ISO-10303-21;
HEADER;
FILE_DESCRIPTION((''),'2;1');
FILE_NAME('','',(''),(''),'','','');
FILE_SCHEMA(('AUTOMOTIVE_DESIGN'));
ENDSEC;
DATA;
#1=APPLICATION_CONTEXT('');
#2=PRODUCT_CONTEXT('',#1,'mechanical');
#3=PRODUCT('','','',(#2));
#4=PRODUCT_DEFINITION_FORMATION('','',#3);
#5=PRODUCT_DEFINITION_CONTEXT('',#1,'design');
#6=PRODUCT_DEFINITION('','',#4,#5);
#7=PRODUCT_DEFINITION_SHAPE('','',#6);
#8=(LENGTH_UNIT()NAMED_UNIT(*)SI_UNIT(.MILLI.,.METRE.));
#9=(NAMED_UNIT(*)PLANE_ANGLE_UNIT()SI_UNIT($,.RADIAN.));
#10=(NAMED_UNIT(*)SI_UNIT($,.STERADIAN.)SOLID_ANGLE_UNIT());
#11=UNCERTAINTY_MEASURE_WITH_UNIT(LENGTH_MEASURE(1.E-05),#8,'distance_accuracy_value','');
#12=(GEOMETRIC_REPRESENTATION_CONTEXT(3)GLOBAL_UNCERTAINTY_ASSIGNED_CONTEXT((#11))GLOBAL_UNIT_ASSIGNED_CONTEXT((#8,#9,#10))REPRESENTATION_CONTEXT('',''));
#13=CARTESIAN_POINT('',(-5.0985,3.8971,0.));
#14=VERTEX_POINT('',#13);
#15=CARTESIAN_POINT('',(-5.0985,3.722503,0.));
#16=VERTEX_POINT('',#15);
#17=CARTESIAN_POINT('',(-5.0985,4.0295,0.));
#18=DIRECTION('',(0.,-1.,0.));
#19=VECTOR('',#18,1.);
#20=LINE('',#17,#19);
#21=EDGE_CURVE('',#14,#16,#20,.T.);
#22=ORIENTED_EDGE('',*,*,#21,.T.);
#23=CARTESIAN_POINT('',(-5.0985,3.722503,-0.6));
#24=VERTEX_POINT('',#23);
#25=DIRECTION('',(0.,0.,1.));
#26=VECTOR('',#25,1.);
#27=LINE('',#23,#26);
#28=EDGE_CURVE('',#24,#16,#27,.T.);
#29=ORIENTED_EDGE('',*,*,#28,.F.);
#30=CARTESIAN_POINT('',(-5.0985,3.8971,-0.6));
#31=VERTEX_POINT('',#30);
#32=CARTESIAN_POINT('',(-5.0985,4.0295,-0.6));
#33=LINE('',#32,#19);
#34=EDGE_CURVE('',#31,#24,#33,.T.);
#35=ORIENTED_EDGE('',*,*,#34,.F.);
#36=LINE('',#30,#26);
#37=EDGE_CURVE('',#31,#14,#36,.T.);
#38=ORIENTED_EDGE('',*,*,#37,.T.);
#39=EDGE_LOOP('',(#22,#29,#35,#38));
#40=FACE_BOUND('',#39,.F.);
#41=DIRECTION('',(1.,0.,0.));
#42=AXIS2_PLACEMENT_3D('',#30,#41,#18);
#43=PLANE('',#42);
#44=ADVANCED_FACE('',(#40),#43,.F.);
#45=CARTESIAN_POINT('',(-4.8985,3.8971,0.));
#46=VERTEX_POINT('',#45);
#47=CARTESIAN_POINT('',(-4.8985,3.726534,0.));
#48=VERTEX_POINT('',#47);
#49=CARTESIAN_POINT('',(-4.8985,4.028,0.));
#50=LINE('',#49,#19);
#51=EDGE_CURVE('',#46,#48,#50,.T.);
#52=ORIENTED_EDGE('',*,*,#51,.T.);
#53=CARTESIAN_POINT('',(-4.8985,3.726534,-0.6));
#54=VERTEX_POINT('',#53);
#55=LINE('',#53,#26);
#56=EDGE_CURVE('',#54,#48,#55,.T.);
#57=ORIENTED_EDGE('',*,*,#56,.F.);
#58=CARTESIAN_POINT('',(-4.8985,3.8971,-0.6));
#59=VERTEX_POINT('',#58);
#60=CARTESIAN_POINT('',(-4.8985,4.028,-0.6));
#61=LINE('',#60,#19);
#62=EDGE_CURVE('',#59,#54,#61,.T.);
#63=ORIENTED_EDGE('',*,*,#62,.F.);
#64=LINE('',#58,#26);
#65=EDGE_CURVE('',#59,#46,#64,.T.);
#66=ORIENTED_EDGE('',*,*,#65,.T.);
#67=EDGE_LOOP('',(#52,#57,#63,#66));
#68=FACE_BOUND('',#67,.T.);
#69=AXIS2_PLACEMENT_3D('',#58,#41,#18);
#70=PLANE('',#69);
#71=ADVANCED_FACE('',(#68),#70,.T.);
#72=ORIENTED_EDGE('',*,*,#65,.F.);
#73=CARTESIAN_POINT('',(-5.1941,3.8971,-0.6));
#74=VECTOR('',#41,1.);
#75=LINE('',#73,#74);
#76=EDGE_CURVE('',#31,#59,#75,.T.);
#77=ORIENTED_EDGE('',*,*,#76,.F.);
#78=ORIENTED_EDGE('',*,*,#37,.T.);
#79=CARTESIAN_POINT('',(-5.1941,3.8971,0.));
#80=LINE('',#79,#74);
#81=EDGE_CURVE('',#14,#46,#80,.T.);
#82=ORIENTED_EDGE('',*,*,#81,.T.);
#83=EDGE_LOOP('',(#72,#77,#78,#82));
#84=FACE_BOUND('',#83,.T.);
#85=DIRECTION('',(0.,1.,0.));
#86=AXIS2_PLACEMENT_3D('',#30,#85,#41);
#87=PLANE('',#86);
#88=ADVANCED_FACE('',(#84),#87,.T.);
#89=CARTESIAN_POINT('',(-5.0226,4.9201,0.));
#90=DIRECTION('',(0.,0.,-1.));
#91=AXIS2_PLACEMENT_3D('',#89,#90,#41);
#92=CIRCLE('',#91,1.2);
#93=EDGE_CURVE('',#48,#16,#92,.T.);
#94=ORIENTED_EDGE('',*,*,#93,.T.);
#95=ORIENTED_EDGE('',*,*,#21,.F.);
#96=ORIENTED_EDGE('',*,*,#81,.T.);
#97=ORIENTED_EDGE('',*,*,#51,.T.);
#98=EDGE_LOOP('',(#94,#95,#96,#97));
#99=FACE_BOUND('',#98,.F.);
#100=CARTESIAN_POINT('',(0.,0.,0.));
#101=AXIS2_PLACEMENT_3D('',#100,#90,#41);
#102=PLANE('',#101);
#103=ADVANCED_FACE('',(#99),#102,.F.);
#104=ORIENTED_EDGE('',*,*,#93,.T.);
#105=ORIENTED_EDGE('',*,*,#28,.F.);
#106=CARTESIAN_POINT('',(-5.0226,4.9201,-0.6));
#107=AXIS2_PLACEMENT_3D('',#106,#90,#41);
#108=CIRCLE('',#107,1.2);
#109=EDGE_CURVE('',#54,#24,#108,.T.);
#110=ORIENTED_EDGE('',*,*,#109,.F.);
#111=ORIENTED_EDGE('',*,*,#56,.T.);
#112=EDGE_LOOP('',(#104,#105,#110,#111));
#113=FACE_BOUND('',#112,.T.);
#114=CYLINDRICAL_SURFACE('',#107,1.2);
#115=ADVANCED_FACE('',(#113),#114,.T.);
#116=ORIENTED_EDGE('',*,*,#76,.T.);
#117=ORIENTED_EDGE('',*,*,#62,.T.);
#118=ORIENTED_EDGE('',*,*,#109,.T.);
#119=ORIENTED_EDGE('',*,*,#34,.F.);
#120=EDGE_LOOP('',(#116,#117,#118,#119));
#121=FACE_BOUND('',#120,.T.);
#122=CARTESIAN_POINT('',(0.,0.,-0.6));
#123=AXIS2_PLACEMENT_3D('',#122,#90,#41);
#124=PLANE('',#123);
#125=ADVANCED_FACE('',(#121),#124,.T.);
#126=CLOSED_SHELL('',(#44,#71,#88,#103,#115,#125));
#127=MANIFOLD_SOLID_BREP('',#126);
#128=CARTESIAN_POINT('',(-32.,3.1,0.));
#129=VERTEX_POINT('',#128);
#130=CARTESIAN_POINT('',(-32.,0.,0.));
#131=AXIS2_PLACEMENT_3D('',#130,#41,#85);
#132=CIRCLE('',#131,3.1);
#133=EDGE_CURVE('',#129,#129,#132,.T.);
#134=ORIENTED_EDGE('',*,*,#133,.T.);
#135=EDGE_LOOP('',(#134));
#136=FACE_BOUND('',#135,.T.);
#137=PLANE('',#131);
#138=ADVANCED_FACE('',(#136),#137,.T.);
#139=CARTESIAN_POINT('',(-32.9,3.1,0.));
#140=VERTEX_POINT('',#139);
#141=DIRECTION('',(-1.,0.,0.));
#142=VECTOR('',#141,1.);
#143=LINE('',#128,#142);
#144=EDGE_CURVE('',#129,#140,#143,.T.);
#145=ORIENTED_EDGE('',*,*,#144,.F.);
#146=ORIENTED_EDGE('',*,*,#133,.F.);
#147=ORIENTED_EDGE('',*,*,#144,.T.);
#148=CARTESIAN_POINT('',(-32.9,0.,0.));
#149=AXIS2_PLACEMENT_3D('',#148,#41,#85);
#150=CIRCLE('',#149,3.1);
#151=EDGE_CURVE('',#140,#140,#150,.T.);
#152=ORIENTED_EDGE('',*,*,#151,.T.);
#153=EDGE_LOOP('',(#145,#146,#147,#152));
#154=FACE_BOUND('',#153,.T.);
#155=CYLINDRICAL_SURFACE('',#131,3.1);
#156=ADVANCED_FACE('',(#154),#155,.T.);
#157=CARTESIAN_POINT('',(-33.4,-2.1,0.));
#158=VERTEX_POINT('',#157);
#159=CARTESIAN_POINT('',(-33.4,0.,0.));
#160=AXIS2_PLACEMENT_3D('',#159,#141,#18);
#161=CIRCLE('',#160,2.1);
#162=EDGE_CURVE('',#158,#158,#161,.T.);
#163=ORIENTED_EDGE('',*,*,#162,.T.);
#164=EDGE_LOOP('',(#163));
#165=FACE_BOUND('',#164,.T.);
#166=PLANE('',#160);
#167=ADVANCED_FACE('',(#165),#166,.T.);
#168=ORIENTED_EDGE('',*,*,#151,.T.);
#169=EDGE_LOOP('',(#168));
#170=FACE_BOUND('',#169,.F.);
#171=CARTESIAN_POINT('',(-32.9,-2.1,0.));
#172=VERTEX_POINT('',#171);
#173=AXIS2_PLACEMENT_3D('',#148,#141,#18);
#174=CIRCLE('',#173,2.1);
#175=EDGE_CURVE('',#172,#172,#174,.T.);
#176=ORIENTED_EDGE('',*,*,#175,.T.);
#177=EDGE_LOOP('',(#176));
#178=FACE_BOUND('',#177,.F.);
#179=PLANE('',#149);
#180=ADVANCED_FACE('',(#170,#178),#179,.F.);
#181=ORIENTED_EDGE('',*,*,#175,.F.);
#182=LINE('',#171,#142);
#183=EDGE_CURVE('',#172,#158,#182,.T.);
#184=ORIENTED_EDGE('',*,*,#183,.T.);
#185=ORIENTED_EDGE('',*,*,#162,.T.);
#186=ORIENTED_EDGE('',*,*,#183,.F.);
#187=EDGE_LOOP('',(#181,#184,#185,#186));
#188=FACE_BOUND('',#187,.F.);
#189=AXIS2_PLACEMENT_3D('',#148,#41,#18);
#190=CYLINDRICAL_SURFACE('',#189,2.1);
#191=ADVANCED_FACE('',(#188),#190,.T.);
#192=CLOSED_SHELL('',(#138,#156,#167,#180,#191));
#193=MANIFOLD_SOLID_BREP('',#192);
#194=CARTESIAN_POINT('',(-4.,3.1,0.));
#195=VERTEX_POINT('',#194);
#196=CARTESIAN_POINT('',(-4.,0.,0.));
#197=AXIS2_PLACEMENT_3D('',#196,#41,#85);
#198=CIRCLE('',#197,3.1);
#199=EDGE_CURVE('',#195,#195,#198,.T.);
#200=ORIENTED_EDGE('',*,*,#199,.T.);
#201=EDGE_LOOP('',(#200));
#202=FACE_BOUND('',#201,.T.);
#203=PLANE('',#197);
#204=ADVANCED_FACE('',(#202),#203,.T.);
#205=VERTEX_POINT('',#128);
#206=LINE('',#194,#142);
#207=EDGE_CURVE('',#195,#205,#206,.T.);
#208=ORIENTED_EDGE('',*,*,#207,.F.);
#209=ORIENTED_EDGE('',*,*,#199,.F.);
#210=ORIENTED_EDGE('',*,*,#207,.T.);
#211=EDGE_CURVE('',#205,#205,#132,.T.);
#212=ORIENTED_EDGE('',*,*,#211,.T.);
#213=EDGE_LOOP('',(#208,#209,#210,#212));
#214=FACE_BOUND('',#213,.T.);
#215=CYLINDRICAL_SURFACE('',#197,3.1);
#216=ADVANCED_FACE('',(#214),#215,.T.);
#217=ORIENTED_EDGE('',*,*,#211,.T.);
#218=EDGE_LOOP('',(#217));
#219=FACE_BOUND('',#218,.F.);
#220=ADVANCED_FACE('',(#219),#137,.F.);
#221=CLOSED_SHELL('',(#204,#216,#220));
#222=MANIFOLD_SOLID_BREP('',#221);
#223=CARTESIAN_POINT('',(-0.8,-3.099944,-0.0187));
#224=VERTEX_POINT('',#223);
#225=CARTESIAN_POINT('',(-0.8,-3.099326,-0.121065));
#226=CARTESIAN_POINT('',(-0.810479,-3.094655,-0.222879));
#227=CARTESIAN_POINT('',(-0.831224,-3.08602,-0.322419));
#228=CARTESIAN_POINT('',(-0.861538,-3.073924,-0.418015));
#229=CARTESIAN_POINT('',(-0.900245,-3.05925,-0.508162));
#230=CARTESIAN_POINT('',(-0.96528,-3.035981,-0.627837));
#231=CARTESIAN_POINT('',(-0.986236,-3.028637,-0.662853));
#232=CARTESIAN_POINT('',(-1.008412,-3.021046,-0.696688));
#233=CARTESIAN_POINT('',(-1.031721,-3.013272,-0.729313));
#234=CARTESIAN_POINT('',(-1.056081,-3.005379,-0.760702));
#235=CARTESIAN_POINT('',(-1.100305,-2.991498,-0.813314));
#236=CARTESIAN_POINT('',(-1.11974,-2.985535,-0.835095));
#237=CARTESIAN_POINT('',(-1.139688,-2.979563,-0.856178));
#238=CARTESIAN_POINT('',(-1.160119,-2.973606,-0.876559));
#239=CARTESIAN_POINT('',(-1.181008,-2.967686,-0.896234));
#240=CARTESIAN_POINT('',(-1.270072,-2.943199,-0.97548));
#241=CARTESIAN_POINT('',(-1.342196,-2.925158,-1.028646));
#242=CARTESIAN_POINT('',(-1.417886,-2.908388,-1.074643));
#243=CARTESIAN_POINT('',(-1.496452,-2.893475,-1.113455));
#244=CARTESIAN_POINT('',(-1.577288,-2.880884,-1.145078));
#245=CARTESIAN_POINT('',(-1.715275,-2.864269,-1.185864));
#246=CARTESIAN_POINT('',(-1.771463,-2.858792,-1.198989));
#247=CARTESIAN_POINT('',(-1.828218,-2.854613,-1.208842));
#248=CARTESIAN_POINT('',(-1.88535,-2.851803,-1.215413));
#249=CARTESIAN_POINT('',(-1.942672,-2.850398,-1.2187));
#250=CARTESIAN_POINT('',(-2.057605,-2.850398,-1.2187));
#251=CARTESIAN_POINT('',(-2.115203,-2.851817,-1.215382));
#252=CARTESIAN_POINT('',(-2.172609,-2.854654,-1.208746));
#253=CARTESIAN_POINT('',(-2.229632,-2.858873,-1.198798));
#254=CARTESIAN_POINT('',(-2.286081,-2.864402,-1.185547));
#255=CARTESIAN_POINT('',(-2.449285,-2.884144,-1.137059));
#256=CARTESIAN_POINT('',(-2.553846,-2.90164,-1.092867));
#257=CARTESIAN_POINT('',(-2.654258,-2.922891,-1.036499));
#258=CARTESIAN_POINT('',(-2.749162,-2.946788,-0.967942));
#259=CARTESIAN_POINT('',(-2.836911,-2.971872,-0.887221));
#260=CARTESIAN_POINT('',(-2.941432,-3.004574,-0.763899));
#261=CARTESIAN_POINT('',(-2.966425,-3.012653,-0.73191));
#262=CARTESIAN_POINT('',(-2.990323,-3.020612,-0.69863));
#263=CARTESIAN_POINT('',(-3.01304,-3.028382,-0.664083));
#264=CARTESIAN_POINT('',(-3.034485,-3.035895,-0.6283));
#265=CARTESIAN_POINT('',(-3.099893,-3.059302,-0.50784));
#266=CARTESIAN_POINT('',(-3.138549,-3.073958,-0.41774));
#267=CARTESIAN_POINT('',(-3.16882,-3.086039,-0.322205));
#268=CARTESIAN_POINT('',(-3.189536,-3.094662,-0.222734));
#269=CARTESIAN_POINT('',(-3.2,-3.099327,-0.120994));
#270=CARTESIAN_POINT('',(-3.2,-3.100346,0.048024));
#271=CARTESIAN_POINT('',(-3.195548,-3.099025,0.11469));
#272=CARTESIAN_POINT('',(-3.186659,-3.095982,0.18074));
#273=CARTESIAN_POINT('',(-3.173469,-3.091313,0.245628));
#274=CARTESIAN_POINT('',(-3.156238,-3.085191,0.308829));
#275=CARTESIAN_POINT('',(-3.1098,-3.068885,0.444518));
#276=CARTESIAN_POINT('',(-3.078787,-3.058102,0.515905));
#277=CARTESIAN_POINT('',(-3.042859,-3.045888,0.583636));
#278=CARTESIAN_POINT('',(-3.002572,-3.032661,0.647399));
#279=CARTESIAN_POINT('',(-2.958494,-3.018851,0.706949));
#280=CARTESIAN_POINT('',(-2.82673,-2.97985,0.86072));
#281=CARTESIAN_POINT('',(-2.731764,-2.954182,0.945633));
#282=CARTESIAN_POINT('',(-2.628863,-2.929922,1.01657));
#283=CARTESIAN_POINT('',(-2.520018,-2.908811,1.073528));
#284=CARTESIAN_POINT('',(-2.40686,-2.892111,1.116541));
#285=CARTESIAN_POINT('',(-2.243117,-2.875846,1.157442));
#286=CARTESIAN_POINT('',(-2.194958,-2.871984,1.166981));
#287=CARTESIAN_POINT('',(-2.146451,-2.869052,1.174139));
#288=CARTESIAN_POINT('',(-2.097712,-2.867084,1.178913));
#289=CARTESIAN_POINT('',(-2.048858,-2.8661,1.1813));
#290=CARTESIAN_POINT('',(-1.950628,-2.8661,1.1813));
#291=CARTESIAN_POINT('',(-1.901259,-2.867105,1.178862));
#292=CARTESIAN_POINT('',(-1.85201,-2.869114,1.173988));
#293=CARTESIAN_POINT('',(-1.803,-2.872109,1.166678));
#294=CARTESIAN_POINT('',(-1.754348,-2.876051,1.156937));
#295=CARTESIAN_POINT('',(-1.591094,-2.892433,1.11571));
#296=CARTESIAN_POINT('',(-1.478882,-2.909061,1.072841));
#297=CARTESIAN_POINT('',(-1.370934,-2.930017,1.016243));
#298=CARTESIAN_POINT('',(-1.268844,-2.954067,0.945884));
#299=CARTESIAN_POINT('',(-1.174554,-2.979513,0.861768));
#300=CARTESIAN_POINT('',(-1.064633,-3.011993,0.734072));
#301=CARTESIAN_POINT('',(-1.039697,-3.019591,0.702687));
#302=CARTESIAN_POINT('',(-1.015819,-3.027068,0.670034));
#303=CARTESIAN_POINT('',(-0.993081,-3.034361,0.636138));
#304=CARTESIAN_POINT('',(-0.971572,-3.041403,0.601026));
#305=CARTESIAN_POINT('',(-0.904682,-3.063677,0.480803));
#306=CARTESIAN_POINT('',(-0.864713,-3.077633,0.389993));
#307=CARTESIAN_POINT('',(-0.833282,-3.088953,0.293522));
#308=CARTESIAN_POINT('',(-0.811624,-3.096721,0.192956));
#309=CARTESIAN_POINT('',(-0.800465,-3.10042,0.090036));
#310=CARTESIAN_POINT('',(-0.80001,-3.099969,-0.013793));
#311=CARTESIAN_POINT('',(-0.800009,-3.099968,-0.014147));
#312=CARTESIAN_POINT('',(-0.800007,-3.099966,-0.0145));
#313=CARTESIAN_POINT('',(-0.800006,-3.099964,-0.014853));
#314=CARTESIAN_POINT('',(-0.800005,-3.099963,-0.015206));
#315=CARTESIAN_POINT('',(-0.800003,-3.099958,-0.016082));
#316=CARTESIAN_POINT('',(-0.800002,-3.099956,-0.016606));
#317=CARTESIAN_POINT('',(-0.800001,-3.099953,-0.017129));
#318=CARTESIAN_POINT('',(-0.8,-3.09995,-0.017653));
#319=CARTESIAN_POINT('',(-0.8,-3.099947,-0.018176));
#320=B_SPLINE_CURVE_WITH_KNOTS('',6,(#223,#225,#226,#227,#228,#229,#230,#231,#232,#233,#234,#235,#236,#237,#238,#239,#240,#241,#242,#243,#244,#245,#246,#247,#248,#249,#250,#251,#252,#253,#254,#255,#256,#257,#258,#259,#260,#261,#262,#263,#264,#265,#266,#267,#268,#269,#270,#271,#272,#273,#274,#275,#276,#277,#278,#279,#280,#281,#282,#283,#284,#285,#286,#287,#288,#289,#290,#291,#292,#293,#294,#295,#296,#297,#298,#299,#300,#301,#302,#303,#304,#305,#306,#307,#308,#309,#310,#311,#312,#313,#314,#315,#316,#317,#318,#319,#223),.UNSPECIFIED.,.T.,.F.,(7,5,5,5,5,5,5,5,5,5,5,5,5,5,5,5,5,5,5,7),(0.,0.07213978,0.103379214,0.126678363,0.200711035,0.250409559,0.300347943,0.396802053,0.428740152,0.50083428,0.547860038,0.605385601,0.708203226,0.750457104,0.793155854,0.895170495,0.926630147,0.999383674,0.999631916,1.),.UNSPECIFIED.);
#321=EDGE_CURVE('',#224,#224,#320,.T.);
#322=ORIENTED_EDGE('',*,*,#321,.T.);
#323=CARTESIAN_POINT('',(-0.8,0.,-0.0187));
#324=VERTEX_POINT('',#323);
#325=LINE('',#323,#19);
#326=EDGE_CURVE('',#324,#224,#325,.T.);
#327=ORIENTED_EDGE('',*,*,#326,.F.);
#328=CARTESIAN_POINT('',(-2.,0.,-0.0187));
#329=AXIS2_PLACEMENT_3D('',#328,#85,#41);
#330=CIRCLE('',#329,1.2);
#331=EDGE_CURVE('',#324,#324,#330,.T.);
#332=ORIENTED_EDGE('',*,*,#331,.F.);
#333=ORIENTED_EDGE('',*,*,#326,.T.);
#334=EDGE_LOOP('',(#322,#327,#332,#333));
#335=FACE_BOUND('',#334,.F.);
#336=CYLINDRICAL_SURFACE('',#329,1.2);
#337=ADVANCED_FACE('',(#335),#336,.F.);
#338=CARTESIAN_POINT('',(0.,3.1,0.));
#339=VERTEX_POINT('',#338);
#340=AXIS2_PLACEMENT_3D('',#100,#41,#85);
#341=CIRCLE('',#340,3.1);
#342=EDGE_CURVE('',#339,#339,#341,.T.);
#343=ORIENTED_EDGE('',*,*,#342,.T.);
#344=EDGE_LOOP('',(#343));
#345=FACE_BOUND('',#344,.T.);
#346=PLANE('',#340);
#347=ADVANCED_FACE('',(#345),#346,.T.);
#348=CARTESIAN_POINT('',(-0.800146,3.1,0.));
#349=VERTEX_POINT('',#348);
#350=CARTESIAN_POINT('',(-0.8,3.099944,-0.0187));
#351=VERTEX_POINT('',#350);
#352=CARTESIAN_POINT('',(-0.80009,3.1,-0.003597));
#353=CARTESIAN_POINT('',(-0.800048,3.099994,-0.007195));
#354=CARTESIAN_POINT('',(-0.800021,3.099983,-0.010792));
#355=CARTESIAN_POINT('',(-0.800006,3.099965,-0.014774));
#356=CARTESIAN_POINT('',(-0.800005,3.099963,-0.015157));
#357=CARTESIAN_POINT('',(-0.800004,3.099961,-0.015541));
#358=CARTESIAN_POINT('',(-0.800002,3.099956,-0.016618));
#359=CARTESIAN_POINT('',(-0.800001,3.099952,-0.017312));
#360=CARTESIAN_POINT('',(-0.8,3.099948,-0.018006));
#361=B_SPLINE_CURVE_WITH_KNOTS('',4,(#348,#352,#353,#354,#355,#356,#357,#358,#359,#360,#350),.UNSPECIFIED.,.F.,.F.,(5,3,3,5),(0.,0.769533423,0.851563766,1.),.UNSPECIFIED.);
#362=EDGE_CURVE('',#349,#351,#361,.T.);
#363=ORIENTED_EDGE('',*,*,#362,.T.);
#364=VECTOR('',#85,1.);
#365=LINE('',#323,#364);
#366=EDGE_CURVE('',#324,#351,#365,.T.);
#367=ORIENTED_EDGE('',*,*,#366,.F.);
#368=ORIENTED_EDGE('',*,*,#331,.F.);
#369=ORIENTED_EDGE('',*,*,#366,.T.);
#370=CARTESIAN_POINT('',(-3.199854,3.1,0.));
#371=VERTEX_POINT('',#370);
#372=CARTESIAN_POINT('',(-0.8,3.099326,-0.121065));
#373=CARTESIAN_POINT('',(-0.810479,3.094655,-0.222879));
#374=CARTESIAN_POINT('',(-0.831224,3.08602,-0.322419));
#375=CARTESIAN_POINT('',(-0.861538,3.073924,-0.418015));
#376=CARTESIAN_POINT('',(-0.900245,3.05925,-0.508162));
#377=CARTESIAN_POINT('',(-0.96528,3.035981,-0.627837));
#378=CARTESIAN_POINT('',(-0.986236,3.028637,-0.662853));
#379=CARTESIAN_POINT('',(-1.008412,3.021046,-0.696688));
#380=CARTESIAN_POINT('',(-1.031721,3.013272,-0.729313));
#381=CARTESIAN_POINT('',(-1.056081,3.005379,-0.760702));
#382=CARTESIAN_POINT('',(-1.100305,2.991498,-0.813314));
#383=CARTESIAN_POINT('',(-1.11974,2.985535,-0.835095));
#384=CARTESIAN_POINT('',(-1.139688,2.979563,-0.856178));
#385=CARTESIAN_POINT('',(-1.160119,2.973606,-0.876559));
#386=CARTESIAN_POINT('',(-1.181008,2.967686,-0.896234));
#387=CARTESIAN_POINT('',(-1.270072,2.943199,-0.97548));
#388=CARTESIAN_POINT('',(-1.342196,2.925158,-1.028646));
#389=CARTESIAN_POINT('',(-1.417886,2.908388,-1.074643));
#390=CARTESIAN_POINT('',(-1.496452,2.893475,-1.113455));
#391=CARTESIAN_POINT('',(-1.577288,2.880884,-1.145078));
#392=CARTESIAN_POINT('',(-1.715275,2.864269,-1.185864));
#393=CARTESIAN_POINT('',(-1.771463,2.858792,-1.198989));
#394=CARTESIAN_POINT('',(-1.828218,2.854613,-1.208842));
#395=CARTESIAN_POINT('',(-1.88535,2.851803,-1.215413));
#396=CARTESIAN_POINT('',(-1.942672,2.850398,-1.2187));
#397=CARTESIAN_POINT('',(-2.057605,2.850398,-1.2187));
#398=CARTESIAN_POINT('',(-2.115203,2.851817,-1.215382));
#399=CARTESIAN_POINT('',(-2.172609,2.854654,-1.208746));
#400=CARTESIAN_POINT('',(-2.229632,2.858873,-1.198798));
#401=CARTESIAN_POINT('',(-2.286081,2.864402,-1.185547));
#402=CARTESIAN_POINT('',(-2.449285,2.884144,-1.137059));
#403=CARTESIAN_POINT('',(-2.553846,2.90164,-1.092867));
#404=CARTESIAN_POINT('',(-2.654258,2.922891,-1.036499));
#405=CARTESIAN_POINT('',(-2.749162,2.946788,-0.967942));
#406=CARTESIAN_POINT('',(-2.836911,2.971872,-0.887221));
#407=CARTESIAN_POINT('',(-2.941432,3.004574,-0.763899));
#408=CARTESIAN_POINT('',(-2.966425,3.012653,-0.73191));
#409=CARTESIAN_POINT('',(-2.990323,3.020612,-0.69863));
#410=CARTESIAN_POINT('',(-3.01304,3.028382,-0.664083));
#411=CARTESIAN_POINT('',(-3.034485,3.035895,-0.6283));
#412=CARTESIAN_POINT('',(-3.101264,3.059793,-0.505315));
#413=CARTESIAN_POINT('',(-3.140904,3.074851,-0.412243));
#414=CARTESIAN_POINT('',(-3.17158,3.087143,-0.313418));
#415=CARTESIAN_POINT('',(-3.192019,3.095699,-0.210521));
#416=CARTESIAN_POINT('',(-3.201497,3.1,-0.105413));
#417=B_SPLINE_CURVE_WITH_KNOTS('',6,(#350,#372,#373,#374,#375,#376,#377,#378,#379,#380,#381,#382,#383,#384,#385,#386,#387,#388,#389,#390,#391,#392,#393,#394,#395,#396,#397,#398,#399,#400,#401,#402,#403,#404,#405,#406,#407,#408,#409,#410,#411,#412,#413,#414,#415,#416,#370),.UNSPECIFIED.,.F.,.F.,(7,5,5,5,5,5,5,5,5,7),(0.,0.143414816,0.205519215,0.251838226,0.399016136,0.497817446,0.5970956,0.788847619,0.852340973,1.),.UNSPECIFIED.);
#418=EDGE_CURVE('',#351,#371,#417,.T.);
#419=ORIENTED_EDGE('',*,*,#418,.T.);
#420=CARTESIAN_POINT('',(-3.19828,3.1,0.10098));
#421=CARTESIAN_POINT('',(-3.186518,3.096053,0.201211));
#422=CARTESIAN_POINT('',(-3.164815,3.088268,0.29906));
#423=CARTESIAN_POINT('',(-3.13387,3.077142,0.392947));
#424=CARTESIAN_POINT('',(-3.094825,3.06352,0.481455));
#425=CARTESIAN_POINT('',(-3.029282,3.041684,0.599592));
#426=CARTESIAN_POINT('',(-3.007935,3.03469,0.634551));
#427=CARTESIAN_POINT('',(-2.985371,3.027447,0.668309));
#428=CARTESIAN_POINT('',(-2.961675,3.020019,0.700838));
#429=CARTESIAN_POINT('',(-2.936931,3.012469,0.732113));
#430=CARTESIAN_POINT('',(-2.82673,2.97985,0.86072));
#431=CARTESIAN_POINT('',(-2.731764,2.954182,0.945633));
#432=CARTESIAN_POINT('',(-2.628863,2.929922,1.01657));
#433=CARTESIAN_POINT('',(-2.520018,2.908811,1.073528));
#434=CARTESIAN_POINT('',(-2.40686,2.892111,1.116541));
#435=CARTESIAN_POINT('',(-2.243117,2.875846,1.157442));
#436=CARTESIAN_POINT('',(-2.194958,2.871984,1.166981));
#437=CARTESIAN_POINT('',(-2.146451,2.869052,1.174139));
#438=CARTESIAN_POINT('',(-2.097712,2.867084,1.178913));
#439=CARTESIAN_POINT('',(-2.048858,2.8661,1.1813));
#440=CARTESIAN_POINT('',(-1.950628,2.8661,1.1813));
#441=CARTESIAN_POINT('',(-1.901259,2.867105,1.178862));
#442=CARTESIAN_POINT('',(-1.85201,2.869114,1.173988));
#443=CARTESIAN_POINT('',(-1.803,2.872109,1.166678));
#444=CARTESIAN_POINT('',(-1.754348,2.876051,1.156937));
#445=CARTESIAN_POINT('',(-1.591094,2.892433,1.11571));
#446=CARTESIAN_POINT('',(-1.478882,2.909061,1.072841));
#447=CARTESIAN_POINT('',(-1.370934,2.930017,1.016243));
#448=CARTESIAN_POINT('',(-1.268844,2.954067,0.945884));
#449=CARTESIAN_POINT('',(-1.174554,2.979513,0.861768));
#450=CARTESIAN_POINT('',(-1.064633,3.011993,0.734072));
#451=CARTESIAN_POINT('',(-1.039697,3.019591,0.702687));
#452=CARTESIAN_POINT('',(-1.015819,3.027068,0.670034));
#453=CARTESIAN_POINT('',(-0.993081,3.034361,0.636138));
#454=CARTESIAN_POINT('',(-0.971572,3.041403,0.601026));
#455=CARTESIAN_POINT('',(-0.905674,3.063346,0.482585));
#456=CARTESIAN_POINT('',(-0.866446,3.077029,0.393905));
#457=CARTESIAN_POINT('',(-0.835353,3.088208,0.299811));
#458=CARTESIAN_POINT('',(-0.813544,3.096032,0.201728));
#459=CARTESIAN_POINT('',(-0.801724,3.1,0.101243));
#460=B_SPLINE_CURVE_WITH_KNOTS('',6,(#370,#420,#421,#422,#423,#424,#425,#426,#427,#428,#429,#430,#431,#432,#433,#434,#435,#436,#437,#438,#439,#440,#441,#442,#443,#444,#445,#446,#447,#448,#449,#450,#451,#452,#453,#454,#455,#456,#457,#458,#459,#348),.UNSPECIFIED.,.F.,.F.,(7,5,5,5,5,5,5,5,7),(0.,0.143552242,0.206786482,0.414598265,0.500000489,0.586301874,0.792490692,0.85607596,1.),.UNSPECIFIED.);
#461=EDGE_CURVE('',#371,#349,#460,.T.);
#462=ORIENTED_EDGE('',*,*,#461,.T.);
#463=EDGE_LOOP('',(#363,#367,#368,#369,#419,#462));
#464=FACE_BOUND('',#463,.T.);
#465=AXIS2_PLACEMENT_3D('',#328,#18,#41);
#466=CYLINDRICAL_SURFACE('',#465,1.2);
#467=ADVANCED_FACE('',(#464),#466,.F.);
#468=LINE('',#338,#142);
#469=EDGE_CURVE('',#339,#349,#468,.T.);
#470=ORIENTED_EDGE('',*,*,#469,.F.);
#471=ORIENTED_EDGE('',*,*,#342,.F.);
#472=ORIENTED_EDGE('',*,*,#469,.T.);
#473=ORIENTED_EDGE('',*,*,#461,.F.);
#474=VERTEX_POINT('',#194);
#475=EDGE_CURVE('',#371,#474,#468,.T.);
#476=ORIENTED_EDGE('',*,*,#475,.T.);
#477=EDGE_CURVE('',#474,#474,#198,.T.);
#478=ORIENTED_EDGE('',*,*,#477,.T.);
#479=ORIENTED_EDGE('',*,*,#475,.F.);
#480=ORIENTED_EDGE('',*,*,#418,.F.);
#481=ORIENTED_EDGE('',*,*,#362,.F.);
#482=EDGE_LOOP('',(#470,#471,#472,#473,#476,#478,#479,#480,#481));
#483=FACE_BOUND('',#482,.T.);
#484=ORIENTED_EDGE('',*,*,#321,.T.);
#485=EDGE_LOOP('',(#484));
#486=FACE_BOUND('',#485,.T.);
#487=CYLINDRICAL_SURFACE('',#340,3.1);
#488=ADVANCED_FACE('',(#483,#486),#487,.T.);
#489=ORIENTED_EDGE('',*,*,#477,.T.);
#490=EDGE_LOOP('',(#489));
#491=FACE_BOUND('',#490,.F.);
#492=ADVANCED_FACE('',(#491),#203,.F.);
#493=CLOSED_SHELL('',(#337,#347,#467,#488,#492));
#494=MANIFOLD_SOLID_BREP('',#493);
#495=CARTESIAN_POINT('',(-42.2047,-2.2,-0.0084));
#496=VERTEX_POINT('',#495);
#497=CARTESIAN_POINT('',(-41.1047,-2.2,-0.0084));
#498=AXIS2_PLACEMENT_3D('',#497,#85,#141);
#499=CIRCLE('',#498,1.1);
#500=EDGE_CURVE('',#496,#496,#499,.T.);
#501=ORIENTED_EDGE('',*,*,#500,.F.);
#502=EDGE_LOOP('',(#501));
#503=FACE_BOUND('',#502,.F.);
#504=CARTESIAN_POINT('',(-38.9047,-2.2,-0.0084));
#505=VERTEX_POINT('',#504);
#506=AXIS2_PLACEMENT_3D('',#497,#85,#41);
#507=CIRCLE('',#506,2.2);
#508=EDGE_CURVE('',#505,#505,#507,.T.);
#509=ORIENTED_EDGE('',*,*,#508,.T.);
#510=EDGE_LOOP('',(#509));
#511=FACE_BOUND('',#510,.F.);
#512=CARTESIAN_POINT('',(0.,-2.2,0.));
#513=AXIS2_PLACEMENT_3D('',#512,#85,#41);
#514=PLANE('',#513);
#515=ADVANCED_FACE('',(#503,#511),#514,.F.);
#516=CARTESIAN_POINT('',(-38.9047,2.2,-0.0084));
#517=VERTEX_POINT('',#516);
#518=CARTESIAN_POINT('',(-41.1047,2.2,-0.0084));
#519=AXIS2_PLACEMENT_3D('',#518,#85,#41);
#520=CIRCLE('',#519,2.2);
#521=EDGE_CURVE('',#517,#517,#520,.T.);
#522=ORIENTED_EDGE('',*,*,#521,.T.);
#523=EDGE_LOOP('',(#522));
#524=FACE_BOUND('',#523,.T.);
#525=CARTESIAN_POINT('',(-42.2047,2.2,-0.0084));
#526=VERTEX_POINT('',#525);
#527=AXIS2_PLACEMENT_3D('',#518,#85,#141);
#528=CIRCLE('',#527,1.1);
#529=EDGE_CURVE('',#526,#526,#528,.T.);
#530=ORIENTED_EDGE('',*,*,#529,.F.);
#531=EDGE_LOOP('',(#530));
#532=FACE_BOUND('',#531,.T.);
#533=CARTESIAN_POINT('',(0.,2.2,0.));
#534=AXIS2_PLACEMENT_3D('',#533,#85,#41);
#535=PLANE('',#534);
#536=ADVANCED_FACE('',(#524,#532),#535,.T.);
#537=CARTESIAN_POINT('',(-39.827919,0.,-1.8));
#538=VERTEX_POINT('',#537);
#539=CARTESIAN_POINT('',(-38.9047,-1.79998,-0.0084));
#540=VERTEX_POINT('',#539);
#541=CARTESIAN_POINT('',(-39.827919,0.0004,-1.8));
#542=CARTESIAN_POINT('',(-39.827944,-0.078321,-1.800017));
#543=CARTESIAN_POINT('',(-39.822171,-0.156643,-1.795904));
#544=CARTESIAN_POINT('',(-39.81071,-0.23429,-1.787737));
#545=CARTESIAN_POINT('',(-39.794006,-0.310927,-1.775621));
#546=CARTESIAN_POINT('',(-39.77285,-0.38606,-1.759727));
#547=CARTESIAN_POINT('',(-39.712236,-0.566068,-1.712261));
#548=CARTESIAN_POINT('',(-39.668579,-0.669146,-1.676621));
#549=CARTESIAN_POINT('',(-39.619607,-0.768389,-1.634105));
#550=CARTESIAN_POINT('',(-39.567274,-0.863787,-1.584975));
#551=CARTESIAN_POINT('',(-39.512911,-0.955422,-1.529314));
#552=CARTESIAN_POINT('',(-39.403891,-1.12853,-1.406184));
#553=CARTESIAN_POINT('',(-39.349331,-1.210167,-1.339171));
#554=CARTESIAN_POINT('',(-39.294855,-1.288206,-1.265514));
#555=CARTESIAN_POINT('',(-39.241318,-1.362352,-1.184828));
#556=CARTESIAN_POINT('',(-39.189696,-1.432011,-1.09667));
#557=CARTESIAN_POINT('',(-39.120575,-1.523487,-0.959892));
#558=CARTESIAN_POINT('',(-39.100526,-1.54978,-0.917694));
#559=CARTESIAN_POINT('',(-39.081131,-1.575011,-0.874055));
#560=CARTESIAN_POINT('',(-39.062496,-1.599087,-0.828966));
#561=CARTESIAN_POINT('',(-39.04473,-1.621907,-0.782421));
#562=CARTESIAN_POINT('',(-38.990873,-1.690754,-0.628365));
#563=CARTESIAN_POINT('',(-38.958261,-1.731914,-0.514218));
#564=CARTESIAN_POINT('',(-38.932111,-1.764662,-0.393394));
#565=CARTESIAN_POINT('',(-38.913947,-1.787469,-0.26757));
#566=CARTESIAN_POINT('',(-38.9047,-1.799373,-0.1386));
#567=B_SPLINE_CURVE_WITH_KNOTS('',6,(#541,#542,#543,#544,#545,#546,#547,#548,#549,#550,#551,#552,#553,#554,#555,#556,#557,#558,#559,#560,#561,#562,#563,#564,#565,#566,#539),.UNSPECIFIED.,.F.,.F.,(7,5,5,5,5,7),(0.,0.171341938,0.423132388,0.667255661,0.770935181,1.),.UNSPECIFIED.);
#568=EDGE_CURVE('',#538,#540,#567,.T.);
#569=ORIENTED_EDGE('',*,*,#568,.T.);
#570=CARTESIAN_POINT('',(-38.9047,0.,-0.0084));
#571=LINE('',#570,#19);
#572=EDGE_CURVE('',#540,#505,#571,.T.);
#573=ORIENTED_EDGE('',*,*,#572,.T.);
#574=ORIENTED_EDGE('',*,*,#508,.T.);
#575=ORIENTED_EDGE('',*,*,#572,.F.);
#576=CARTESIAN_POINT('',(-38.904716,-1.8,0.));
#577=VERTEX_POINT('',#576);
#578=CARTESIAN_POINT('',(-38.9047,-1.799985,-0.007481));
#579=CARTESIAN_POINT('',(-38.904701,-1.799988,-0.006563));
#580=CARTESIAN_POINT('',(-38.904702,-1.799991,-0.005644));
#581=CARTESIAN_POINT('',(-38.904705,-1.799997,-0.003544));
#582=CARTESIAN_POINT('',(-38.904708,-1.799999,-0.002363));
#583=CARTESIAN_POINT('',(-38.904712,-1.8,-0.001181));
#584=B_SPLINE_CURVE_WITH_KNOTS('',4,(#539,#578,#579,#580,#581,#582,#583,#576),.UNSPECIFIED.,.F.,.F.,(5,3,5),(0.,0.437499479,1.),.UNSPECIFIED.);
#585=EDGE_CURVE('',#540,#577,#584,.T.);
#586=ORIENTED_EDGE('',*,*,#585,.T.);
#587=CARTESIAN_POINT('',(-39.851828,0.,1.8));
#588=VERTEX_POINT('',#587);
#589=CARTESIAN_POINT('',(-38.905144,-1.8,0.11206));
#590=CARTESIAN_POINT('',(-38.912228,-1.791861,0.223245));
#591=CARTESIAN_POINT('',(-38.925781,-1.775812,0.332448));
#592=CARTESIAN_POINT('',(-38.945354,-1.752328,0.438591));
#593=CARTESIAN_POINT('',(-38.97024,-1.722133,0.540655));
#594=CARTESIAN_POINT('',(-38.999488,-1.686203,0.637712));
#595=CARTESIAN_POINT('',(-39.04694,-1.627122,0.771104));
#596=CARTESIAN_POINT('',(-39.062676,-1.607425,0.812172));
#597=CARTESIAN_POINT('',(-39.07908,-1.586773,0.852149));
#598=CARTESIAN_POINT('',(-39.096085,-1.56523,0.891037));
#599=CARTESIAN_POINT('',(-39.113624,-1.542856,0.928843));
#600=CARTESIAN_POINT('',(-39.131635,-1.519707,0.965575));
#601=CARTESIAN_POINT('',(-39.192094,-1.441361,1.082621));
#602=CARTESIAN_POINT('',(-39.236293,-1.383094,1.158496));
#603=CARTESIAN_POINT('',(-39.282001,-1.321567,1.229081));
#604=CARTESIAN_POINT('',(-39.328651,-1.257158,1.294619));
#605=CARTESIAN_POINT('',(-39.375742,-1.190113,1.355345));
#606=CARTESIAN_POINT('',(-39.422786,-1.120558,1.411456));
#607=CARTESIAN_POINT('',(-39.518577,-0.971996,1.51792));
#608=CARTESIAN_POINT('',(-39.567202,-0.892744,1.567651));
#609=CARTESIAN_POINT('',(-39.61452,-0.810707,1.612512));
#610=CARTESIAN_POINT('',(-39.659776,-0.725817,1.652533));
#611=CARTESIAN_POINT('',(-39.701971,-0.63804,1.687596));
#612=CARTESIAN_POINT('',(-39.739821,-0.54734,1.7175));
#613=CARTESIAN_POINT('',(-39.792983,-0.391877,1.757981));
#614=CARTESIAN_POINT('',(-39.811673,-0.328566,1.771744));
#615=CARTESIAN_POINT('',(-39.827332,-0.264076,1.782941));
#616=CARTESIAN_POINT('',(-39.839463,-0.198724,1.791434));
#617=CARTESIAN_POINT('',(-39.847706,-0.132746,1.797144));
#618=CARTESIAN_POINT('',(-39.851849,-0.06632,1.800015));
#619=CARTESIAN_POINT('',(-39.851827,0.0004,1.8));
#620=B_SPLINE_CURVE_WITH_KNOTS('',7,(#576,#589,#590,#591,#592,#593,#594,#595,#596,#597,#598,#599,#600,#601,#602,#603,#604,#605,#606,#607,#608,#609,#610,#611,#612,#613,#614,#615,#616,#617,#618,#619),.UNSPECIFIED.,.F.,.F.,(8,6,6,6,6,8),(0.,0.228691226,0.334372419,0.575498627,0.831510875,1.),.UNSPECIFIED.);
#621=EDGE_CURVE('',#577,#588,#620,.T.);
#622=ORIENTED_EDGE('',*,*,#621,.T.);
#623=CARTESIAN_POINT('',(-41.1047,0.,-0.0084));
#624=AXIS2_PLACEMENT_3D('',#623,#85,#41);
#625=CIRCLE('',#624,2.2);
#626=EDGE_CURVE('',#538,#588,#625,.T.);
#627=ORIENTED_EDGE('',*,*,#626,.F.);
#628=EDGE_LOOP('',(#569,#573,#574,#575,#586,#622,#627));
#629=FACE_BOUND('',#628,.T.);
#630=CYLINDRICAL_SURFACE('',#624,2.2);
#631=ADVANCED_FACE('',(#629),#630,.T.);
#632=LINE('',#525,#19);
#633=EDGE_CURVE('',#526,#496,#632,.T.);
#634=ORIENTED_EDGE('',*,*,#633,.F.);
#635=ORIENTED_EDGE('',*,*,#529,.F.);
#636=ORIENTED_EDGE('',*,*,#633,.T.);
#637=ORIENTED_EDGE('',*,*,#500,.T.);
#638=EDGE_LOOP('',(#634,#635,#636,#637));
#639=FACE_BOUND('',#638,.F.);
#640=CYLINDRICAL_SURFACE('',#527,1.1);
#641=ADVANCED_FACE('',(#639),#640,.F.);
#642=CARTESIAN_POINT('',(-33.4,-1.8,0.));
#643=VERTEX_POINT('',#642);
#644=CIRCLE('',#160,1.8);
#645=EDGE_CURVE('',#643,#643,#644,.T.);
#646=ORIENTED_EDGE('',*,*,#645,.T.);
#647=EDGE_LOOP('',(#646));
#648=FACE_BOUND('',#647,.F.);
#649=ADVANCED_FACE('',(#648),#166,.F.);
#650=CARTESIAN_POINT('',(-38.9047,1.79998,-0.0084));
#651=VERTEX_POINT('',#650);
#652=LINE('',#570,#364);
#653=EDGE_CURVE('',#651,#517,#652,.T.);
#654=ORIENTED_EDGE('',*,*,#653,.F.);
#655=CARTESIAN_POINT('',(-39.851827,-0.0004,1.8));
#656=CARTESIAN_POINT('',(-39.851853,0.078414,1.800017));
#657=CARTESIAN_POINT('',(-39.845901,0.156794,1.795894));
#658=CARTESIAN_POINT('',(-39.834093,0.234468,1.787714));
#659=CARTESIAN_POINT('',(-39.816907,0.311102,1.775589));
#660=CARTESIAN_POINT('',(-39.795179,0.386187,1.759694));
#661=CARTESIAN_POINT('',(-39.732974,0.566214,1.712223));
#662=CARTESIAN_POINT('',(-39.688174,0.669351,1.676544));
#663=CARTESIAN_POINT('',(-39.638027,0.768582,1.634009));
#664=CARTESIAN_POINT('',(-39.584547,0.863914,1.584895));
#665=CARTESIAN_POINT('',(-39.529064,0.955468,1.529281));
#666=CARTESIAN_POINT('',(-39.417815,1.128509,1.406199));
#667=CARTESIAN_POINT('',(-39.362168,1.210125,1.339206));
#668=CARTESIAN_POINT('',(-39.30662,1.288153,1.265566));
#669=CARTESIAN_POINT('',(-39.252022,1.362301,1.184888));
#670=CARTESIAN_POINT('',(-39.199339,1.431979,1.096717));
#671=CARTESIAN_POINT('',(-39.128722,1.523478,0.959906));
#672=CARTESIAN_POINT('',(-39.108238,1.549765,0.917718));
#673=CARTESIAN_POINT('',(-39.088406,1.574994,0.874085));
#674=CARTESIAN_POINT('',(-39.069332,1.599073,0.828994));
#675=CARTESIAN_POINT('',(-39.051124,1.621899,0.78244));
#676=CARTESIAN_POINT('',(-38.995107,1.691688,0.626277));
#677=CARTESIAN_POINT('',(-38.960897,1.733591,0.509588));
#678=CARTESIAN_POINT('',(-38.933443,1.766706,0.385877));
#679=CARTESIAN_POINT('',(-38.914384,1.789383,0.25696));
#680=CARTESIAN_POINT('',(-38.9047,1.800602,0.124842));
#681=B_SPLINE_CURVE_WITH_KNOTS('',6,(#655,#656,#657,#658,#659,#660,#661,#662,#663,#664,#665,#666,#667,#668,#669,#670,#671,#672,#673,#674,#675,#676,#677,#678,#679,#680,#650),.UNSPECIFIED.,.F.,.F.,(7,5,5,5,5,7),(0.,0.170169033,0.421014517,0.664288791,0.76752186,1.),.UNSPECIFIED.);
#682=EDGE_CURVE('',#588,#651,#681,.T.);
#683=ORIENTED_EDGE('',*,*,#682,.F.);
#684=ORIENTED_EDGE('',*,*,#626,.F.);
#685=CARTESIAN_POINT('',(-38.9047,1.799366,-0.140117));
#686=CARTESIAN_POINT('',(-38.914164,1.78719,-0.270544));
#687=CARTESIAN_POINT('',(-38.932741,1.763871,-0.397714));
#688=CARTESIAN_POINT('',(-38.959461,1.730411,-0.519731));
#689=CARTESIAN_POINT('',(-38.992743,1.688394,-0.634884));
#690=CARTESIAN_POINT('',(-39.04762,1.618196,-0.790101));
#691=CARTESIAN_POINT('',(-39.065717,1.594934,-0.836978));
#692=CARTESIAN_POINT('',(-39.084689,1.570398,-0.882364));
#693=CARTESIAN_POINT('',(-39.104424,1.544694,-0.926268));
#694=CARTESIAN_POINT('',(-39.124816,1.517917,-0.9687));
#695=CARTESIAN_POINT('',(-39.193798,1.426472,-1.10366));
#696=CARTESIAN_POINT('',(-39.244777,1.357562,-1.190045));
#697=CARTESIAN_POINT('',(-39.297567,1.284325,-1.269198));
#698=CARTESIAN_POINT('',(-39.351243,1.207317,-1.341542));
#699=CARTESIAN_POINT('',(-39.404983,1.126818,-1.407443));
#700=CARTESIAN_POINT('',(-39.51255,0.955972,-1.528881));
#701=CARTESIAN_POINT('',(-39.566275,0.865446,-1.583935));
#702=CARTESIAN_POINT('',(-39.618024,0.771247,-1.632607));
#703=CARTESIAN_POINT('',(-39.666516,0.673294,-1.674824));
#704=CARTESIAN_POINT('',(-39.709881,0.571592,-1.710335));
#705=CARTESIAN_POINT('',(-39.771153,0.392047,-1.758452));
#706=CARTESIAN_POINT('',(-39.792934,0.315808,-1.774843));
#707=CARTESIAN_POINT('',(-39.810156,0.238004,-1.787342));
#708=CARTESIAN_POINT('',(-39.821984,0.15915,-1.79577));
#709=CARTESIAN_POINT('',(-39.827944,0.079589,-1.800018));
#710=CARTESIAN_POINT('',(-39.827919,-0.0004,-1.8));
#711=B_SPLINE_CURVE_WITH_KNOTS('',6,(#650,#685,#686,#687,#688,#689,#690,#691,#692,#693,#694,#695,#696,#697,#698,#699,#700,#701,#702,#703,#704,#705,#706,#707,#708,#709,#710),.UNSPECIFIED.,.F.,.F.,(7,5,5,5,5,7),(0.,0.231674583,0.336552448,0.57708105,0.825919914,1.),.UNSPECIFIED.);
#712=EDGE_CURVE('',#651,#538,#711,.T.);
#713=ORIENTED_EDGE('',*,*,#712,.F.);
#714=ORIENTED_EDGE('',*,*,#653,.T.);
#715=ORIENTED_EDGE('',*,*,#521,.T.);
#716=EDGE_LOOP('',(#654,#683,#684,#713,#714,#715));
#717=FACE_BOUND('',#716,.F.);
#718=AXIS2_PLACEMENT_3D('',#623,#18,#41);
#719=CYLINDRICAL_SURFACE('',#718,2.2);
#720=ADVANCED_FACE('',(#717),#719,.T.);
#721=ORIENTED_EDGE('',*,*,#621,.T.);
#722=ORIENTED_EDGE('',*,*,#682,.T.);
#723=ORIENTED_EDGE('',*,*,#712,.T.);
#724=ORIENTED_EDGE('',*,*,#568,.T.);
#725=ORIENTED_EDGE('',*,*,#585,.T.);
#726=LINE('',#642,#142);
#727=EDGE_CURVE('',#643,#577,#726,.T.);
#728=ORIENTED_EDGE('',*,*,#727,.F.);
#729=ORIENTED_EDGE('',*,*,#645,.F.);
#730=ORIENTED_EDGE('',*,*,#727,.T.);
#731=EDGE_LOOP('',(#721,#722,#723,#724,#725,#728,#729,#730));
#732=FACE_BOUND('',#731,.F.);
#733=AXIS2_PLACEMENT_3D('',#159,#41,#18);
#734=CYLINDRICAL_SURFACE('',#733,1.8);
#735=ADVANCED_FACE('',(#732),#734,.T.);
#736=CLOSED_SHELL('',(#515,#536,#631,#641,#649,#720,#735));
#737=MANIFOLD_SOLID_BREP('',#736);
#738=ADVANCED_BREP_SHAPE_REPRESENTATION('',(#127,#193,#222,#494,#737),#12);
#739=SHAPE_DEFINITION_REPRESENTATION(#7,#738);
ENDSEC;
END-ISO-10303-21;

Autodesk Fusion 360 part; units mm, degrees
sketch "Sketch1" plane through (0, 0, 0) normal (1, 0, 0) x (0, 1, 0)
  circle A0 centre (0, 0) radius 3.1
  dimension "d1" = 6.2
extrude "Extrude1" add sketch "Sketch1" against normal blind 4 makes body 1
extrude "Extrude1'" add 1 faces at (-4, -0.4599, 1.4057) along direction (-1, 0, 0) blind 28 separate body on bodies 1 makes body 2 in component "Component"
extrude "Extrude1''" add 1 faces at (-32, -0.4599, 1.4057) along direction (-1, 0, 0) blind 0.9 separate body on bodies 2 makes body 3 in component "Component'"
sketch "Sketch2" plane through (-32.9, 0, 0) normal (-1, 0, 0) x (0, -1, 0)
  circle A0 centre (0, 0) radius 3.1
  circle A1 centre (0, 0) radius 2.1
  dimension "d8" = 4.2
extrude "Extrude2" add sketch "Sketch2" along normal blind 0.5 contours A1 bodies 3 in component "Component'"
sketch "Sketch3" plane through (-33.4, 0, 0) normal (-1, 0, 0) x (0, -1, 0)
  circle A0 centre (0, 0) radius 2.1
  circle A1 centre (0, 0) radius 1.8
  dimension "d11" = 3.6
extrude "Extrude2'" add sketch "Sketch3" along normal blind 7.7 separate body contours A1 makes body 4
sketch "Sketch4" plane through (0, 0, 0) normal (0, 1, 0) x (1, 0, 0)
  circle A0 centre (-41.1047, 0.0084) radius 2.2
  dimension "d14" = 4.4
extrude "Extrude3" add sketch "Sketch4" along normal mid plane 4.4 bodies 4
sketch "Sketch5" plane through (0, 2.2, 0) normal (0, 1, 0) x (-1, 0, 0)
  circle A0 centre (41.1047, -0.0084) radius 2.2
  circle A1 centre (41.1047, -0.0084) radius 1.1
  dimension "d17" = 2.2
extrude "Extrude4" cut sketch "Sketch5" against normal blind 5.607 contours A1 bodies 4
sketch "Sketch6" plane through (0, 0, 0) normal (0, 1, 0) x (1, 0, 0)
  circle A0 centre (-2, 0.0187) radius 1.2
  line L0 (0, -3.1) -> (0, 3.1)
  dimension "d20" = 2.4
  dimension "d21" = 2.4
  dimension "d22" = 2
extrude "Extrude5" cut sketch "Sketch6" along normal mid plane 13.01 bodies 1
sketch "Sketch7" plane through (0, 0, 0) normal (1, 0, 0) x (0, 1, 0)
sketch "Sketch8" plane through (0, 0, 0) normal (0, 0, 1) x (1, 0, 0)
  circle A0 centre (-5.0226, 4.9201) radius 1
  dimension "d25" = 2
sketch "Sketch9" plane through (0, 0, 0) normal (0, 0, -1) x (1, 0, 0)
  circle A0 centre (-5.0226, -4.9201) radius 1
  circle A1 centre (-5.0226, -4.9201) radius 0.8
  dimension "d28" = 1.6
sketch "Sketch10" plane through (0, 0, -0.6) normal (0, 0, -1) x (1, 0, 0)
  circle A0 centre (-5.0226, -4.9201) radius 0.8
  circle A1 centre (-5.0226, -4.9201) radius 0.6
  dimension "d31" = 1.2
sketch "Sketch11" plane through (0, 0, 0) normal (0, 0, -1) x (1, 0, 0)
  circle A0 centre (-5.0226, -4.9201) radius 0.8
  circle A1 centre (-5.0226, -4.9201) radius 1
  circle A2 centre (-5.0226, -4.9201) radius 1.2
  dimension "d34" = 2.4
sketch "Sketch12" plane through (0, 0, -0.6) normal (0, 0, -1) x (1, 0, 0)
  circle A0 centre (-5.0226, -4.9201) radius 1.2
  line L0 (-5.0985, -4.0295) -> (-5.0985, -3.6215)
  line L1 (-4.8985, -4.028) -> (-4.8985, -3.6403)
  line L2 (-4.9985, -4.9971) -> (-4.9985, -3.4779) construction
  line L3 (-5.1941, -3.8971) -> (-4.7341, -3.8971)
  circle A1 centre (-5.0226, -4.9201) radius 0.8
  dimension "d37" = 0.1
  dimension "d38" = 0.1
  dimension "d41" = 1.1
extrude "Extrude10" add sketch "Sketch12" against normal blind 0.6 separate body contours A0 L0 L1 L3 picked at (-4.9874, -3.8385) makes body 5
sketch "Sketch13" plane through (0, 0, -0.6) normal (0, 0, -1) x (1, 0, 0)
  line L0 (-4.8985, -3.8971) -> (-4.8985, -3.7265)
  arc A0 (-4.8985, -3.7265) -> (-5.0985, -3.7225) centre (-5.0226, -4.9201) ccw
  line L1 (-5.0985, -3.7225) -> (-5.0985, -3.8971)
  line L2 (-5.0985, -3.8971) -> (-4.8985, -3.8971)
  line L3 (-5.0226, -4.9201) -> (-4.9575, -5.4988)
  arc A1 (-5.3142, -3.7561) -> (-5.5035, -3.8207) centre (-5.0226, -4.9201) ccw
  line L4 (-5.2559, -3.9163) -> (-5.3142, -3.7561)
  line L5 (-5.4438, -3.9847) -> (-5.2559, -3.9163)
  line L6 (-5.5035, -3.8207) -> (-5.4438, -3.9847)
  arc A2 (-5.6948, -3.926) -> (-5.8506, -4.0515) centre (-5.0226, -4.9201) ccw
  line L7 (-5.5851, -4.0567) -> (-5.6948, -3.926)
  line L8 (-5.7383, -4.1852) -> (-5.5851, -4.0567)
  line L9 (-5.8506, -4.0515) -> (-5.7383, -4.1852)
  arc A3 (-5.9942, -4.2158) -> (-6.0977, -4.387) centre (-5.0226, -4.9201) ccw
  line L10 (-5.8465, -4.3011) -> (-5.9942, -4.2158)
  line L11 (-5.9465, -4.4743) -> (-5.8465, -4.3011)
  line L12 (-6.0977, -4.387) -> (-5.9465, -4.4743)
  arc A4 (-6.1765, -4.5906) -> (-6.2152, -4.7869) centre (-5.0226, -4.9201) ccw
  line L13 (-6.0085, -4.6202) -> (-6.1765, -4.5906)
  line L14 (-6.0433, -4.8172) -> (-6.0085, -4.6202)
  line L15 (-6.2152, -4.7869) -> (-6.0433, -4.8172)
  arc A5 (-6.2196, -5.0051) -> (-6.1888, -5.2028) centre (-5.0226, -4.9201) ccw
  line L16 (-6.0516, -4.9755) -> (-6.2196, -5.0051)
  line L17 (-6.0169, -5.1725) -> (-6.0516, -4.9755)
  line L18 (-6.1888, -5.2028) -> (-6.0169, -5.1725)
  arc A6 (-6.1183, -5.4094) -> (-6.0218, -5.5846) centre (-5.0226, -4.9201) ccw
  line L19 (-5.9706, -5.3241) -> (-6.1183, -5.4094)
  line L20 (-5.8706, -5.4973) -> (-5.9706, -5.3241)
  line L21 (-6.0218, -5.5846) -> (-5.8706, -5.4973)
  arc A7 (-5.8849, -5.7546) -> (-5.7343, -5.8863) centre (-5.0226, -4.9201) ccw
  line L22 (-5.7752, -5.624) -> (-5.8849, -5.7546)
  line L23 (-5.622, -5.7525) -> (-5.7752, -5.624)
  line L24 (-5.7343, -5.8863) -> (-5.622, -5.7525)
  arc A8 (-5.5474, -5.9992) -> (-5.3609, -6.0714) centre (-5.0226, -4.9201) ccw
  line L25 (-5.4891, -5.839) -> (-5.5474, -5.9992)
  line L26 (-5.3012, -5.9074) -> (-5.4891, -5.839)
  line L27 (-5.3609, -6.0714) -> (-5.3012, -5.9074)
  arc A9 (-5.1467, -6.1137) -> (-4.9467, -6.1177) centre (-5.0226, -4.9201) ccw
  line L28 (-5.1467, -5.9431) -> (-5.1467, -6.1137)
  line L29 (-4.9467, -5.9431) -> (-5.1467, -5.9431)
  line L30 (-4.9467, -6.1177) -> (-4.9467, -5.9431)
  arc A10 (-4.731, -6.0841) -> (-4.5417, -6.0195) centre (-5.0226, -4.9201) ccw
  line L31 (-4.7893, -5.9238) -> (-4.731, -6.0841)
  line L32 (-4.6014, -5.8554) -> (-4.7893, -5.9238)
  line L33 (-4.5417, -6.0195) -> (-4.6014, -5.8554)
  arc A11 (-4.3505, -5.9142) -> (-4.1947, -5.7887) centre (-5.0226, -4.9201) ccw
  line L34 (-4.4601, -5.7835) -> (-4.3505, -5.9142)
  line L35 (-4.3069, -5.655) -> (-4.4601, -5.7835)
  line L36 (-4.1947, -5.7887) -> (-4.3069, -5.655)
  arc A12 (-4.051, -5.6243) -> (-3.9475, -5.4532) centre (-5.0226, -4.9201) ccw
  line L37 (-4.1987, -5.5391) -> (-4.051, -5.6243)
  line L38 (-4.0987, -5.3659) -> (-4.1987, -5.5391)
  line L39 (-3.9475, -5.4532) -> (-4.0987, -5.3659)
  arc A13 (-3.8687, -5.2496) -> (-3.83, -5.0533) centre (-5.0226, -4.9201) ccw
  line L40 (-4.0367, -5.2199) -> (-3.8687, -5.2496)
  line L41 (-4.002, -5.023) -> (-4.0367, -5.2199)
  line L42 (-3.83, -5.0533) -> (-4.002, -5.023)
  arc A14 (-3.8256, -4.835) -> (-3.8564, -4.6374) centre (-5.0226, -4.9201) ccw
  line L43 (-3.9936, -4.8647) -> (-3.8256, -4.835)
  line L44 (-4.0283, -4.6677) -> (-3.9936, -4.8647)
  line L45 (-3.8564, -4.6374) -> (-4.0283, -4.6677)
  arc A15 (-3.9269, -4.4308) -> (-4.0234, -4.2556) centre (-5.0226, -4.9201) ccw
  line L46 (-4.0746, -4.5161) -> (-3.9269, -4.4308)
  line L47 (-4.1746, -4.3429) -> (-4.0746, -4.5161)
  line L48 (-4.0234, -4.2556) -> (-4.1746, -4.3429)
  arc A16 (-4.1603, -4.0855) -> (-4.311, -3.9539) centre (-5.0226, -4.9201) ccw
  line L49 (-4.27, -4.2162) -> (-4.1603, -4.0855)
  line L50 (-4.4232, -4.0876) -> (-4.27, -4.2162)
  line L51 (-4.311, -3.9539) -> (-4.4232, -4.0876)
  arc A17 (-4.4978, -3.841) -> (-4.6843, -3.7688) centre (-5.0226, -4.9201) ccw
  line L52 (-4.5561, -4.0012) -> (-4.4978, -3.841)
  line L53 (-4.744, -3.9328) -> (-4.5561, -4.0012)
  line L54 (-4.6843, -3.7688) -> (-4.744, -3.9328)
  dimension "d45" = 360
sketch "Sketch14" plane through (0, 0, 0) normal (1, 0, 0) x (0, 1, 0)
  circle A0 centre (0, 0) radius 3.1
sketch "Sketch15" plane through (0, 0, 0) normal (1, 0, 0) x (0, 1, 0)
ref_plane "WorkPlane1" through (-6.4, 0, 0) normal (1, 0, 0) x (0, 1, 0)
sketch "Sketch16" plane through (-6.4, 0, 0) normal (1, 0, 0) x (0, 1, 0)
sketch "Sketch17" plane through (0, 0, 0) normal (1, 0, 0) x (0, 1, 0)
  line L0 (0, 0) -> (0, 3.0141) construction
sketch "Sketch18" plane through (0, 0, 0) normal (0, 0, 1) x (1, 0, 0)
component "Component" placed x (1, 0, 0) y (0, 1, 0) z (0, 0, 1) at (0, 0, 0)
component "Component'" placed x (1, 0, 0) y (0, 1, 0) z (0, 0, 1) at (0, 0, 0)
